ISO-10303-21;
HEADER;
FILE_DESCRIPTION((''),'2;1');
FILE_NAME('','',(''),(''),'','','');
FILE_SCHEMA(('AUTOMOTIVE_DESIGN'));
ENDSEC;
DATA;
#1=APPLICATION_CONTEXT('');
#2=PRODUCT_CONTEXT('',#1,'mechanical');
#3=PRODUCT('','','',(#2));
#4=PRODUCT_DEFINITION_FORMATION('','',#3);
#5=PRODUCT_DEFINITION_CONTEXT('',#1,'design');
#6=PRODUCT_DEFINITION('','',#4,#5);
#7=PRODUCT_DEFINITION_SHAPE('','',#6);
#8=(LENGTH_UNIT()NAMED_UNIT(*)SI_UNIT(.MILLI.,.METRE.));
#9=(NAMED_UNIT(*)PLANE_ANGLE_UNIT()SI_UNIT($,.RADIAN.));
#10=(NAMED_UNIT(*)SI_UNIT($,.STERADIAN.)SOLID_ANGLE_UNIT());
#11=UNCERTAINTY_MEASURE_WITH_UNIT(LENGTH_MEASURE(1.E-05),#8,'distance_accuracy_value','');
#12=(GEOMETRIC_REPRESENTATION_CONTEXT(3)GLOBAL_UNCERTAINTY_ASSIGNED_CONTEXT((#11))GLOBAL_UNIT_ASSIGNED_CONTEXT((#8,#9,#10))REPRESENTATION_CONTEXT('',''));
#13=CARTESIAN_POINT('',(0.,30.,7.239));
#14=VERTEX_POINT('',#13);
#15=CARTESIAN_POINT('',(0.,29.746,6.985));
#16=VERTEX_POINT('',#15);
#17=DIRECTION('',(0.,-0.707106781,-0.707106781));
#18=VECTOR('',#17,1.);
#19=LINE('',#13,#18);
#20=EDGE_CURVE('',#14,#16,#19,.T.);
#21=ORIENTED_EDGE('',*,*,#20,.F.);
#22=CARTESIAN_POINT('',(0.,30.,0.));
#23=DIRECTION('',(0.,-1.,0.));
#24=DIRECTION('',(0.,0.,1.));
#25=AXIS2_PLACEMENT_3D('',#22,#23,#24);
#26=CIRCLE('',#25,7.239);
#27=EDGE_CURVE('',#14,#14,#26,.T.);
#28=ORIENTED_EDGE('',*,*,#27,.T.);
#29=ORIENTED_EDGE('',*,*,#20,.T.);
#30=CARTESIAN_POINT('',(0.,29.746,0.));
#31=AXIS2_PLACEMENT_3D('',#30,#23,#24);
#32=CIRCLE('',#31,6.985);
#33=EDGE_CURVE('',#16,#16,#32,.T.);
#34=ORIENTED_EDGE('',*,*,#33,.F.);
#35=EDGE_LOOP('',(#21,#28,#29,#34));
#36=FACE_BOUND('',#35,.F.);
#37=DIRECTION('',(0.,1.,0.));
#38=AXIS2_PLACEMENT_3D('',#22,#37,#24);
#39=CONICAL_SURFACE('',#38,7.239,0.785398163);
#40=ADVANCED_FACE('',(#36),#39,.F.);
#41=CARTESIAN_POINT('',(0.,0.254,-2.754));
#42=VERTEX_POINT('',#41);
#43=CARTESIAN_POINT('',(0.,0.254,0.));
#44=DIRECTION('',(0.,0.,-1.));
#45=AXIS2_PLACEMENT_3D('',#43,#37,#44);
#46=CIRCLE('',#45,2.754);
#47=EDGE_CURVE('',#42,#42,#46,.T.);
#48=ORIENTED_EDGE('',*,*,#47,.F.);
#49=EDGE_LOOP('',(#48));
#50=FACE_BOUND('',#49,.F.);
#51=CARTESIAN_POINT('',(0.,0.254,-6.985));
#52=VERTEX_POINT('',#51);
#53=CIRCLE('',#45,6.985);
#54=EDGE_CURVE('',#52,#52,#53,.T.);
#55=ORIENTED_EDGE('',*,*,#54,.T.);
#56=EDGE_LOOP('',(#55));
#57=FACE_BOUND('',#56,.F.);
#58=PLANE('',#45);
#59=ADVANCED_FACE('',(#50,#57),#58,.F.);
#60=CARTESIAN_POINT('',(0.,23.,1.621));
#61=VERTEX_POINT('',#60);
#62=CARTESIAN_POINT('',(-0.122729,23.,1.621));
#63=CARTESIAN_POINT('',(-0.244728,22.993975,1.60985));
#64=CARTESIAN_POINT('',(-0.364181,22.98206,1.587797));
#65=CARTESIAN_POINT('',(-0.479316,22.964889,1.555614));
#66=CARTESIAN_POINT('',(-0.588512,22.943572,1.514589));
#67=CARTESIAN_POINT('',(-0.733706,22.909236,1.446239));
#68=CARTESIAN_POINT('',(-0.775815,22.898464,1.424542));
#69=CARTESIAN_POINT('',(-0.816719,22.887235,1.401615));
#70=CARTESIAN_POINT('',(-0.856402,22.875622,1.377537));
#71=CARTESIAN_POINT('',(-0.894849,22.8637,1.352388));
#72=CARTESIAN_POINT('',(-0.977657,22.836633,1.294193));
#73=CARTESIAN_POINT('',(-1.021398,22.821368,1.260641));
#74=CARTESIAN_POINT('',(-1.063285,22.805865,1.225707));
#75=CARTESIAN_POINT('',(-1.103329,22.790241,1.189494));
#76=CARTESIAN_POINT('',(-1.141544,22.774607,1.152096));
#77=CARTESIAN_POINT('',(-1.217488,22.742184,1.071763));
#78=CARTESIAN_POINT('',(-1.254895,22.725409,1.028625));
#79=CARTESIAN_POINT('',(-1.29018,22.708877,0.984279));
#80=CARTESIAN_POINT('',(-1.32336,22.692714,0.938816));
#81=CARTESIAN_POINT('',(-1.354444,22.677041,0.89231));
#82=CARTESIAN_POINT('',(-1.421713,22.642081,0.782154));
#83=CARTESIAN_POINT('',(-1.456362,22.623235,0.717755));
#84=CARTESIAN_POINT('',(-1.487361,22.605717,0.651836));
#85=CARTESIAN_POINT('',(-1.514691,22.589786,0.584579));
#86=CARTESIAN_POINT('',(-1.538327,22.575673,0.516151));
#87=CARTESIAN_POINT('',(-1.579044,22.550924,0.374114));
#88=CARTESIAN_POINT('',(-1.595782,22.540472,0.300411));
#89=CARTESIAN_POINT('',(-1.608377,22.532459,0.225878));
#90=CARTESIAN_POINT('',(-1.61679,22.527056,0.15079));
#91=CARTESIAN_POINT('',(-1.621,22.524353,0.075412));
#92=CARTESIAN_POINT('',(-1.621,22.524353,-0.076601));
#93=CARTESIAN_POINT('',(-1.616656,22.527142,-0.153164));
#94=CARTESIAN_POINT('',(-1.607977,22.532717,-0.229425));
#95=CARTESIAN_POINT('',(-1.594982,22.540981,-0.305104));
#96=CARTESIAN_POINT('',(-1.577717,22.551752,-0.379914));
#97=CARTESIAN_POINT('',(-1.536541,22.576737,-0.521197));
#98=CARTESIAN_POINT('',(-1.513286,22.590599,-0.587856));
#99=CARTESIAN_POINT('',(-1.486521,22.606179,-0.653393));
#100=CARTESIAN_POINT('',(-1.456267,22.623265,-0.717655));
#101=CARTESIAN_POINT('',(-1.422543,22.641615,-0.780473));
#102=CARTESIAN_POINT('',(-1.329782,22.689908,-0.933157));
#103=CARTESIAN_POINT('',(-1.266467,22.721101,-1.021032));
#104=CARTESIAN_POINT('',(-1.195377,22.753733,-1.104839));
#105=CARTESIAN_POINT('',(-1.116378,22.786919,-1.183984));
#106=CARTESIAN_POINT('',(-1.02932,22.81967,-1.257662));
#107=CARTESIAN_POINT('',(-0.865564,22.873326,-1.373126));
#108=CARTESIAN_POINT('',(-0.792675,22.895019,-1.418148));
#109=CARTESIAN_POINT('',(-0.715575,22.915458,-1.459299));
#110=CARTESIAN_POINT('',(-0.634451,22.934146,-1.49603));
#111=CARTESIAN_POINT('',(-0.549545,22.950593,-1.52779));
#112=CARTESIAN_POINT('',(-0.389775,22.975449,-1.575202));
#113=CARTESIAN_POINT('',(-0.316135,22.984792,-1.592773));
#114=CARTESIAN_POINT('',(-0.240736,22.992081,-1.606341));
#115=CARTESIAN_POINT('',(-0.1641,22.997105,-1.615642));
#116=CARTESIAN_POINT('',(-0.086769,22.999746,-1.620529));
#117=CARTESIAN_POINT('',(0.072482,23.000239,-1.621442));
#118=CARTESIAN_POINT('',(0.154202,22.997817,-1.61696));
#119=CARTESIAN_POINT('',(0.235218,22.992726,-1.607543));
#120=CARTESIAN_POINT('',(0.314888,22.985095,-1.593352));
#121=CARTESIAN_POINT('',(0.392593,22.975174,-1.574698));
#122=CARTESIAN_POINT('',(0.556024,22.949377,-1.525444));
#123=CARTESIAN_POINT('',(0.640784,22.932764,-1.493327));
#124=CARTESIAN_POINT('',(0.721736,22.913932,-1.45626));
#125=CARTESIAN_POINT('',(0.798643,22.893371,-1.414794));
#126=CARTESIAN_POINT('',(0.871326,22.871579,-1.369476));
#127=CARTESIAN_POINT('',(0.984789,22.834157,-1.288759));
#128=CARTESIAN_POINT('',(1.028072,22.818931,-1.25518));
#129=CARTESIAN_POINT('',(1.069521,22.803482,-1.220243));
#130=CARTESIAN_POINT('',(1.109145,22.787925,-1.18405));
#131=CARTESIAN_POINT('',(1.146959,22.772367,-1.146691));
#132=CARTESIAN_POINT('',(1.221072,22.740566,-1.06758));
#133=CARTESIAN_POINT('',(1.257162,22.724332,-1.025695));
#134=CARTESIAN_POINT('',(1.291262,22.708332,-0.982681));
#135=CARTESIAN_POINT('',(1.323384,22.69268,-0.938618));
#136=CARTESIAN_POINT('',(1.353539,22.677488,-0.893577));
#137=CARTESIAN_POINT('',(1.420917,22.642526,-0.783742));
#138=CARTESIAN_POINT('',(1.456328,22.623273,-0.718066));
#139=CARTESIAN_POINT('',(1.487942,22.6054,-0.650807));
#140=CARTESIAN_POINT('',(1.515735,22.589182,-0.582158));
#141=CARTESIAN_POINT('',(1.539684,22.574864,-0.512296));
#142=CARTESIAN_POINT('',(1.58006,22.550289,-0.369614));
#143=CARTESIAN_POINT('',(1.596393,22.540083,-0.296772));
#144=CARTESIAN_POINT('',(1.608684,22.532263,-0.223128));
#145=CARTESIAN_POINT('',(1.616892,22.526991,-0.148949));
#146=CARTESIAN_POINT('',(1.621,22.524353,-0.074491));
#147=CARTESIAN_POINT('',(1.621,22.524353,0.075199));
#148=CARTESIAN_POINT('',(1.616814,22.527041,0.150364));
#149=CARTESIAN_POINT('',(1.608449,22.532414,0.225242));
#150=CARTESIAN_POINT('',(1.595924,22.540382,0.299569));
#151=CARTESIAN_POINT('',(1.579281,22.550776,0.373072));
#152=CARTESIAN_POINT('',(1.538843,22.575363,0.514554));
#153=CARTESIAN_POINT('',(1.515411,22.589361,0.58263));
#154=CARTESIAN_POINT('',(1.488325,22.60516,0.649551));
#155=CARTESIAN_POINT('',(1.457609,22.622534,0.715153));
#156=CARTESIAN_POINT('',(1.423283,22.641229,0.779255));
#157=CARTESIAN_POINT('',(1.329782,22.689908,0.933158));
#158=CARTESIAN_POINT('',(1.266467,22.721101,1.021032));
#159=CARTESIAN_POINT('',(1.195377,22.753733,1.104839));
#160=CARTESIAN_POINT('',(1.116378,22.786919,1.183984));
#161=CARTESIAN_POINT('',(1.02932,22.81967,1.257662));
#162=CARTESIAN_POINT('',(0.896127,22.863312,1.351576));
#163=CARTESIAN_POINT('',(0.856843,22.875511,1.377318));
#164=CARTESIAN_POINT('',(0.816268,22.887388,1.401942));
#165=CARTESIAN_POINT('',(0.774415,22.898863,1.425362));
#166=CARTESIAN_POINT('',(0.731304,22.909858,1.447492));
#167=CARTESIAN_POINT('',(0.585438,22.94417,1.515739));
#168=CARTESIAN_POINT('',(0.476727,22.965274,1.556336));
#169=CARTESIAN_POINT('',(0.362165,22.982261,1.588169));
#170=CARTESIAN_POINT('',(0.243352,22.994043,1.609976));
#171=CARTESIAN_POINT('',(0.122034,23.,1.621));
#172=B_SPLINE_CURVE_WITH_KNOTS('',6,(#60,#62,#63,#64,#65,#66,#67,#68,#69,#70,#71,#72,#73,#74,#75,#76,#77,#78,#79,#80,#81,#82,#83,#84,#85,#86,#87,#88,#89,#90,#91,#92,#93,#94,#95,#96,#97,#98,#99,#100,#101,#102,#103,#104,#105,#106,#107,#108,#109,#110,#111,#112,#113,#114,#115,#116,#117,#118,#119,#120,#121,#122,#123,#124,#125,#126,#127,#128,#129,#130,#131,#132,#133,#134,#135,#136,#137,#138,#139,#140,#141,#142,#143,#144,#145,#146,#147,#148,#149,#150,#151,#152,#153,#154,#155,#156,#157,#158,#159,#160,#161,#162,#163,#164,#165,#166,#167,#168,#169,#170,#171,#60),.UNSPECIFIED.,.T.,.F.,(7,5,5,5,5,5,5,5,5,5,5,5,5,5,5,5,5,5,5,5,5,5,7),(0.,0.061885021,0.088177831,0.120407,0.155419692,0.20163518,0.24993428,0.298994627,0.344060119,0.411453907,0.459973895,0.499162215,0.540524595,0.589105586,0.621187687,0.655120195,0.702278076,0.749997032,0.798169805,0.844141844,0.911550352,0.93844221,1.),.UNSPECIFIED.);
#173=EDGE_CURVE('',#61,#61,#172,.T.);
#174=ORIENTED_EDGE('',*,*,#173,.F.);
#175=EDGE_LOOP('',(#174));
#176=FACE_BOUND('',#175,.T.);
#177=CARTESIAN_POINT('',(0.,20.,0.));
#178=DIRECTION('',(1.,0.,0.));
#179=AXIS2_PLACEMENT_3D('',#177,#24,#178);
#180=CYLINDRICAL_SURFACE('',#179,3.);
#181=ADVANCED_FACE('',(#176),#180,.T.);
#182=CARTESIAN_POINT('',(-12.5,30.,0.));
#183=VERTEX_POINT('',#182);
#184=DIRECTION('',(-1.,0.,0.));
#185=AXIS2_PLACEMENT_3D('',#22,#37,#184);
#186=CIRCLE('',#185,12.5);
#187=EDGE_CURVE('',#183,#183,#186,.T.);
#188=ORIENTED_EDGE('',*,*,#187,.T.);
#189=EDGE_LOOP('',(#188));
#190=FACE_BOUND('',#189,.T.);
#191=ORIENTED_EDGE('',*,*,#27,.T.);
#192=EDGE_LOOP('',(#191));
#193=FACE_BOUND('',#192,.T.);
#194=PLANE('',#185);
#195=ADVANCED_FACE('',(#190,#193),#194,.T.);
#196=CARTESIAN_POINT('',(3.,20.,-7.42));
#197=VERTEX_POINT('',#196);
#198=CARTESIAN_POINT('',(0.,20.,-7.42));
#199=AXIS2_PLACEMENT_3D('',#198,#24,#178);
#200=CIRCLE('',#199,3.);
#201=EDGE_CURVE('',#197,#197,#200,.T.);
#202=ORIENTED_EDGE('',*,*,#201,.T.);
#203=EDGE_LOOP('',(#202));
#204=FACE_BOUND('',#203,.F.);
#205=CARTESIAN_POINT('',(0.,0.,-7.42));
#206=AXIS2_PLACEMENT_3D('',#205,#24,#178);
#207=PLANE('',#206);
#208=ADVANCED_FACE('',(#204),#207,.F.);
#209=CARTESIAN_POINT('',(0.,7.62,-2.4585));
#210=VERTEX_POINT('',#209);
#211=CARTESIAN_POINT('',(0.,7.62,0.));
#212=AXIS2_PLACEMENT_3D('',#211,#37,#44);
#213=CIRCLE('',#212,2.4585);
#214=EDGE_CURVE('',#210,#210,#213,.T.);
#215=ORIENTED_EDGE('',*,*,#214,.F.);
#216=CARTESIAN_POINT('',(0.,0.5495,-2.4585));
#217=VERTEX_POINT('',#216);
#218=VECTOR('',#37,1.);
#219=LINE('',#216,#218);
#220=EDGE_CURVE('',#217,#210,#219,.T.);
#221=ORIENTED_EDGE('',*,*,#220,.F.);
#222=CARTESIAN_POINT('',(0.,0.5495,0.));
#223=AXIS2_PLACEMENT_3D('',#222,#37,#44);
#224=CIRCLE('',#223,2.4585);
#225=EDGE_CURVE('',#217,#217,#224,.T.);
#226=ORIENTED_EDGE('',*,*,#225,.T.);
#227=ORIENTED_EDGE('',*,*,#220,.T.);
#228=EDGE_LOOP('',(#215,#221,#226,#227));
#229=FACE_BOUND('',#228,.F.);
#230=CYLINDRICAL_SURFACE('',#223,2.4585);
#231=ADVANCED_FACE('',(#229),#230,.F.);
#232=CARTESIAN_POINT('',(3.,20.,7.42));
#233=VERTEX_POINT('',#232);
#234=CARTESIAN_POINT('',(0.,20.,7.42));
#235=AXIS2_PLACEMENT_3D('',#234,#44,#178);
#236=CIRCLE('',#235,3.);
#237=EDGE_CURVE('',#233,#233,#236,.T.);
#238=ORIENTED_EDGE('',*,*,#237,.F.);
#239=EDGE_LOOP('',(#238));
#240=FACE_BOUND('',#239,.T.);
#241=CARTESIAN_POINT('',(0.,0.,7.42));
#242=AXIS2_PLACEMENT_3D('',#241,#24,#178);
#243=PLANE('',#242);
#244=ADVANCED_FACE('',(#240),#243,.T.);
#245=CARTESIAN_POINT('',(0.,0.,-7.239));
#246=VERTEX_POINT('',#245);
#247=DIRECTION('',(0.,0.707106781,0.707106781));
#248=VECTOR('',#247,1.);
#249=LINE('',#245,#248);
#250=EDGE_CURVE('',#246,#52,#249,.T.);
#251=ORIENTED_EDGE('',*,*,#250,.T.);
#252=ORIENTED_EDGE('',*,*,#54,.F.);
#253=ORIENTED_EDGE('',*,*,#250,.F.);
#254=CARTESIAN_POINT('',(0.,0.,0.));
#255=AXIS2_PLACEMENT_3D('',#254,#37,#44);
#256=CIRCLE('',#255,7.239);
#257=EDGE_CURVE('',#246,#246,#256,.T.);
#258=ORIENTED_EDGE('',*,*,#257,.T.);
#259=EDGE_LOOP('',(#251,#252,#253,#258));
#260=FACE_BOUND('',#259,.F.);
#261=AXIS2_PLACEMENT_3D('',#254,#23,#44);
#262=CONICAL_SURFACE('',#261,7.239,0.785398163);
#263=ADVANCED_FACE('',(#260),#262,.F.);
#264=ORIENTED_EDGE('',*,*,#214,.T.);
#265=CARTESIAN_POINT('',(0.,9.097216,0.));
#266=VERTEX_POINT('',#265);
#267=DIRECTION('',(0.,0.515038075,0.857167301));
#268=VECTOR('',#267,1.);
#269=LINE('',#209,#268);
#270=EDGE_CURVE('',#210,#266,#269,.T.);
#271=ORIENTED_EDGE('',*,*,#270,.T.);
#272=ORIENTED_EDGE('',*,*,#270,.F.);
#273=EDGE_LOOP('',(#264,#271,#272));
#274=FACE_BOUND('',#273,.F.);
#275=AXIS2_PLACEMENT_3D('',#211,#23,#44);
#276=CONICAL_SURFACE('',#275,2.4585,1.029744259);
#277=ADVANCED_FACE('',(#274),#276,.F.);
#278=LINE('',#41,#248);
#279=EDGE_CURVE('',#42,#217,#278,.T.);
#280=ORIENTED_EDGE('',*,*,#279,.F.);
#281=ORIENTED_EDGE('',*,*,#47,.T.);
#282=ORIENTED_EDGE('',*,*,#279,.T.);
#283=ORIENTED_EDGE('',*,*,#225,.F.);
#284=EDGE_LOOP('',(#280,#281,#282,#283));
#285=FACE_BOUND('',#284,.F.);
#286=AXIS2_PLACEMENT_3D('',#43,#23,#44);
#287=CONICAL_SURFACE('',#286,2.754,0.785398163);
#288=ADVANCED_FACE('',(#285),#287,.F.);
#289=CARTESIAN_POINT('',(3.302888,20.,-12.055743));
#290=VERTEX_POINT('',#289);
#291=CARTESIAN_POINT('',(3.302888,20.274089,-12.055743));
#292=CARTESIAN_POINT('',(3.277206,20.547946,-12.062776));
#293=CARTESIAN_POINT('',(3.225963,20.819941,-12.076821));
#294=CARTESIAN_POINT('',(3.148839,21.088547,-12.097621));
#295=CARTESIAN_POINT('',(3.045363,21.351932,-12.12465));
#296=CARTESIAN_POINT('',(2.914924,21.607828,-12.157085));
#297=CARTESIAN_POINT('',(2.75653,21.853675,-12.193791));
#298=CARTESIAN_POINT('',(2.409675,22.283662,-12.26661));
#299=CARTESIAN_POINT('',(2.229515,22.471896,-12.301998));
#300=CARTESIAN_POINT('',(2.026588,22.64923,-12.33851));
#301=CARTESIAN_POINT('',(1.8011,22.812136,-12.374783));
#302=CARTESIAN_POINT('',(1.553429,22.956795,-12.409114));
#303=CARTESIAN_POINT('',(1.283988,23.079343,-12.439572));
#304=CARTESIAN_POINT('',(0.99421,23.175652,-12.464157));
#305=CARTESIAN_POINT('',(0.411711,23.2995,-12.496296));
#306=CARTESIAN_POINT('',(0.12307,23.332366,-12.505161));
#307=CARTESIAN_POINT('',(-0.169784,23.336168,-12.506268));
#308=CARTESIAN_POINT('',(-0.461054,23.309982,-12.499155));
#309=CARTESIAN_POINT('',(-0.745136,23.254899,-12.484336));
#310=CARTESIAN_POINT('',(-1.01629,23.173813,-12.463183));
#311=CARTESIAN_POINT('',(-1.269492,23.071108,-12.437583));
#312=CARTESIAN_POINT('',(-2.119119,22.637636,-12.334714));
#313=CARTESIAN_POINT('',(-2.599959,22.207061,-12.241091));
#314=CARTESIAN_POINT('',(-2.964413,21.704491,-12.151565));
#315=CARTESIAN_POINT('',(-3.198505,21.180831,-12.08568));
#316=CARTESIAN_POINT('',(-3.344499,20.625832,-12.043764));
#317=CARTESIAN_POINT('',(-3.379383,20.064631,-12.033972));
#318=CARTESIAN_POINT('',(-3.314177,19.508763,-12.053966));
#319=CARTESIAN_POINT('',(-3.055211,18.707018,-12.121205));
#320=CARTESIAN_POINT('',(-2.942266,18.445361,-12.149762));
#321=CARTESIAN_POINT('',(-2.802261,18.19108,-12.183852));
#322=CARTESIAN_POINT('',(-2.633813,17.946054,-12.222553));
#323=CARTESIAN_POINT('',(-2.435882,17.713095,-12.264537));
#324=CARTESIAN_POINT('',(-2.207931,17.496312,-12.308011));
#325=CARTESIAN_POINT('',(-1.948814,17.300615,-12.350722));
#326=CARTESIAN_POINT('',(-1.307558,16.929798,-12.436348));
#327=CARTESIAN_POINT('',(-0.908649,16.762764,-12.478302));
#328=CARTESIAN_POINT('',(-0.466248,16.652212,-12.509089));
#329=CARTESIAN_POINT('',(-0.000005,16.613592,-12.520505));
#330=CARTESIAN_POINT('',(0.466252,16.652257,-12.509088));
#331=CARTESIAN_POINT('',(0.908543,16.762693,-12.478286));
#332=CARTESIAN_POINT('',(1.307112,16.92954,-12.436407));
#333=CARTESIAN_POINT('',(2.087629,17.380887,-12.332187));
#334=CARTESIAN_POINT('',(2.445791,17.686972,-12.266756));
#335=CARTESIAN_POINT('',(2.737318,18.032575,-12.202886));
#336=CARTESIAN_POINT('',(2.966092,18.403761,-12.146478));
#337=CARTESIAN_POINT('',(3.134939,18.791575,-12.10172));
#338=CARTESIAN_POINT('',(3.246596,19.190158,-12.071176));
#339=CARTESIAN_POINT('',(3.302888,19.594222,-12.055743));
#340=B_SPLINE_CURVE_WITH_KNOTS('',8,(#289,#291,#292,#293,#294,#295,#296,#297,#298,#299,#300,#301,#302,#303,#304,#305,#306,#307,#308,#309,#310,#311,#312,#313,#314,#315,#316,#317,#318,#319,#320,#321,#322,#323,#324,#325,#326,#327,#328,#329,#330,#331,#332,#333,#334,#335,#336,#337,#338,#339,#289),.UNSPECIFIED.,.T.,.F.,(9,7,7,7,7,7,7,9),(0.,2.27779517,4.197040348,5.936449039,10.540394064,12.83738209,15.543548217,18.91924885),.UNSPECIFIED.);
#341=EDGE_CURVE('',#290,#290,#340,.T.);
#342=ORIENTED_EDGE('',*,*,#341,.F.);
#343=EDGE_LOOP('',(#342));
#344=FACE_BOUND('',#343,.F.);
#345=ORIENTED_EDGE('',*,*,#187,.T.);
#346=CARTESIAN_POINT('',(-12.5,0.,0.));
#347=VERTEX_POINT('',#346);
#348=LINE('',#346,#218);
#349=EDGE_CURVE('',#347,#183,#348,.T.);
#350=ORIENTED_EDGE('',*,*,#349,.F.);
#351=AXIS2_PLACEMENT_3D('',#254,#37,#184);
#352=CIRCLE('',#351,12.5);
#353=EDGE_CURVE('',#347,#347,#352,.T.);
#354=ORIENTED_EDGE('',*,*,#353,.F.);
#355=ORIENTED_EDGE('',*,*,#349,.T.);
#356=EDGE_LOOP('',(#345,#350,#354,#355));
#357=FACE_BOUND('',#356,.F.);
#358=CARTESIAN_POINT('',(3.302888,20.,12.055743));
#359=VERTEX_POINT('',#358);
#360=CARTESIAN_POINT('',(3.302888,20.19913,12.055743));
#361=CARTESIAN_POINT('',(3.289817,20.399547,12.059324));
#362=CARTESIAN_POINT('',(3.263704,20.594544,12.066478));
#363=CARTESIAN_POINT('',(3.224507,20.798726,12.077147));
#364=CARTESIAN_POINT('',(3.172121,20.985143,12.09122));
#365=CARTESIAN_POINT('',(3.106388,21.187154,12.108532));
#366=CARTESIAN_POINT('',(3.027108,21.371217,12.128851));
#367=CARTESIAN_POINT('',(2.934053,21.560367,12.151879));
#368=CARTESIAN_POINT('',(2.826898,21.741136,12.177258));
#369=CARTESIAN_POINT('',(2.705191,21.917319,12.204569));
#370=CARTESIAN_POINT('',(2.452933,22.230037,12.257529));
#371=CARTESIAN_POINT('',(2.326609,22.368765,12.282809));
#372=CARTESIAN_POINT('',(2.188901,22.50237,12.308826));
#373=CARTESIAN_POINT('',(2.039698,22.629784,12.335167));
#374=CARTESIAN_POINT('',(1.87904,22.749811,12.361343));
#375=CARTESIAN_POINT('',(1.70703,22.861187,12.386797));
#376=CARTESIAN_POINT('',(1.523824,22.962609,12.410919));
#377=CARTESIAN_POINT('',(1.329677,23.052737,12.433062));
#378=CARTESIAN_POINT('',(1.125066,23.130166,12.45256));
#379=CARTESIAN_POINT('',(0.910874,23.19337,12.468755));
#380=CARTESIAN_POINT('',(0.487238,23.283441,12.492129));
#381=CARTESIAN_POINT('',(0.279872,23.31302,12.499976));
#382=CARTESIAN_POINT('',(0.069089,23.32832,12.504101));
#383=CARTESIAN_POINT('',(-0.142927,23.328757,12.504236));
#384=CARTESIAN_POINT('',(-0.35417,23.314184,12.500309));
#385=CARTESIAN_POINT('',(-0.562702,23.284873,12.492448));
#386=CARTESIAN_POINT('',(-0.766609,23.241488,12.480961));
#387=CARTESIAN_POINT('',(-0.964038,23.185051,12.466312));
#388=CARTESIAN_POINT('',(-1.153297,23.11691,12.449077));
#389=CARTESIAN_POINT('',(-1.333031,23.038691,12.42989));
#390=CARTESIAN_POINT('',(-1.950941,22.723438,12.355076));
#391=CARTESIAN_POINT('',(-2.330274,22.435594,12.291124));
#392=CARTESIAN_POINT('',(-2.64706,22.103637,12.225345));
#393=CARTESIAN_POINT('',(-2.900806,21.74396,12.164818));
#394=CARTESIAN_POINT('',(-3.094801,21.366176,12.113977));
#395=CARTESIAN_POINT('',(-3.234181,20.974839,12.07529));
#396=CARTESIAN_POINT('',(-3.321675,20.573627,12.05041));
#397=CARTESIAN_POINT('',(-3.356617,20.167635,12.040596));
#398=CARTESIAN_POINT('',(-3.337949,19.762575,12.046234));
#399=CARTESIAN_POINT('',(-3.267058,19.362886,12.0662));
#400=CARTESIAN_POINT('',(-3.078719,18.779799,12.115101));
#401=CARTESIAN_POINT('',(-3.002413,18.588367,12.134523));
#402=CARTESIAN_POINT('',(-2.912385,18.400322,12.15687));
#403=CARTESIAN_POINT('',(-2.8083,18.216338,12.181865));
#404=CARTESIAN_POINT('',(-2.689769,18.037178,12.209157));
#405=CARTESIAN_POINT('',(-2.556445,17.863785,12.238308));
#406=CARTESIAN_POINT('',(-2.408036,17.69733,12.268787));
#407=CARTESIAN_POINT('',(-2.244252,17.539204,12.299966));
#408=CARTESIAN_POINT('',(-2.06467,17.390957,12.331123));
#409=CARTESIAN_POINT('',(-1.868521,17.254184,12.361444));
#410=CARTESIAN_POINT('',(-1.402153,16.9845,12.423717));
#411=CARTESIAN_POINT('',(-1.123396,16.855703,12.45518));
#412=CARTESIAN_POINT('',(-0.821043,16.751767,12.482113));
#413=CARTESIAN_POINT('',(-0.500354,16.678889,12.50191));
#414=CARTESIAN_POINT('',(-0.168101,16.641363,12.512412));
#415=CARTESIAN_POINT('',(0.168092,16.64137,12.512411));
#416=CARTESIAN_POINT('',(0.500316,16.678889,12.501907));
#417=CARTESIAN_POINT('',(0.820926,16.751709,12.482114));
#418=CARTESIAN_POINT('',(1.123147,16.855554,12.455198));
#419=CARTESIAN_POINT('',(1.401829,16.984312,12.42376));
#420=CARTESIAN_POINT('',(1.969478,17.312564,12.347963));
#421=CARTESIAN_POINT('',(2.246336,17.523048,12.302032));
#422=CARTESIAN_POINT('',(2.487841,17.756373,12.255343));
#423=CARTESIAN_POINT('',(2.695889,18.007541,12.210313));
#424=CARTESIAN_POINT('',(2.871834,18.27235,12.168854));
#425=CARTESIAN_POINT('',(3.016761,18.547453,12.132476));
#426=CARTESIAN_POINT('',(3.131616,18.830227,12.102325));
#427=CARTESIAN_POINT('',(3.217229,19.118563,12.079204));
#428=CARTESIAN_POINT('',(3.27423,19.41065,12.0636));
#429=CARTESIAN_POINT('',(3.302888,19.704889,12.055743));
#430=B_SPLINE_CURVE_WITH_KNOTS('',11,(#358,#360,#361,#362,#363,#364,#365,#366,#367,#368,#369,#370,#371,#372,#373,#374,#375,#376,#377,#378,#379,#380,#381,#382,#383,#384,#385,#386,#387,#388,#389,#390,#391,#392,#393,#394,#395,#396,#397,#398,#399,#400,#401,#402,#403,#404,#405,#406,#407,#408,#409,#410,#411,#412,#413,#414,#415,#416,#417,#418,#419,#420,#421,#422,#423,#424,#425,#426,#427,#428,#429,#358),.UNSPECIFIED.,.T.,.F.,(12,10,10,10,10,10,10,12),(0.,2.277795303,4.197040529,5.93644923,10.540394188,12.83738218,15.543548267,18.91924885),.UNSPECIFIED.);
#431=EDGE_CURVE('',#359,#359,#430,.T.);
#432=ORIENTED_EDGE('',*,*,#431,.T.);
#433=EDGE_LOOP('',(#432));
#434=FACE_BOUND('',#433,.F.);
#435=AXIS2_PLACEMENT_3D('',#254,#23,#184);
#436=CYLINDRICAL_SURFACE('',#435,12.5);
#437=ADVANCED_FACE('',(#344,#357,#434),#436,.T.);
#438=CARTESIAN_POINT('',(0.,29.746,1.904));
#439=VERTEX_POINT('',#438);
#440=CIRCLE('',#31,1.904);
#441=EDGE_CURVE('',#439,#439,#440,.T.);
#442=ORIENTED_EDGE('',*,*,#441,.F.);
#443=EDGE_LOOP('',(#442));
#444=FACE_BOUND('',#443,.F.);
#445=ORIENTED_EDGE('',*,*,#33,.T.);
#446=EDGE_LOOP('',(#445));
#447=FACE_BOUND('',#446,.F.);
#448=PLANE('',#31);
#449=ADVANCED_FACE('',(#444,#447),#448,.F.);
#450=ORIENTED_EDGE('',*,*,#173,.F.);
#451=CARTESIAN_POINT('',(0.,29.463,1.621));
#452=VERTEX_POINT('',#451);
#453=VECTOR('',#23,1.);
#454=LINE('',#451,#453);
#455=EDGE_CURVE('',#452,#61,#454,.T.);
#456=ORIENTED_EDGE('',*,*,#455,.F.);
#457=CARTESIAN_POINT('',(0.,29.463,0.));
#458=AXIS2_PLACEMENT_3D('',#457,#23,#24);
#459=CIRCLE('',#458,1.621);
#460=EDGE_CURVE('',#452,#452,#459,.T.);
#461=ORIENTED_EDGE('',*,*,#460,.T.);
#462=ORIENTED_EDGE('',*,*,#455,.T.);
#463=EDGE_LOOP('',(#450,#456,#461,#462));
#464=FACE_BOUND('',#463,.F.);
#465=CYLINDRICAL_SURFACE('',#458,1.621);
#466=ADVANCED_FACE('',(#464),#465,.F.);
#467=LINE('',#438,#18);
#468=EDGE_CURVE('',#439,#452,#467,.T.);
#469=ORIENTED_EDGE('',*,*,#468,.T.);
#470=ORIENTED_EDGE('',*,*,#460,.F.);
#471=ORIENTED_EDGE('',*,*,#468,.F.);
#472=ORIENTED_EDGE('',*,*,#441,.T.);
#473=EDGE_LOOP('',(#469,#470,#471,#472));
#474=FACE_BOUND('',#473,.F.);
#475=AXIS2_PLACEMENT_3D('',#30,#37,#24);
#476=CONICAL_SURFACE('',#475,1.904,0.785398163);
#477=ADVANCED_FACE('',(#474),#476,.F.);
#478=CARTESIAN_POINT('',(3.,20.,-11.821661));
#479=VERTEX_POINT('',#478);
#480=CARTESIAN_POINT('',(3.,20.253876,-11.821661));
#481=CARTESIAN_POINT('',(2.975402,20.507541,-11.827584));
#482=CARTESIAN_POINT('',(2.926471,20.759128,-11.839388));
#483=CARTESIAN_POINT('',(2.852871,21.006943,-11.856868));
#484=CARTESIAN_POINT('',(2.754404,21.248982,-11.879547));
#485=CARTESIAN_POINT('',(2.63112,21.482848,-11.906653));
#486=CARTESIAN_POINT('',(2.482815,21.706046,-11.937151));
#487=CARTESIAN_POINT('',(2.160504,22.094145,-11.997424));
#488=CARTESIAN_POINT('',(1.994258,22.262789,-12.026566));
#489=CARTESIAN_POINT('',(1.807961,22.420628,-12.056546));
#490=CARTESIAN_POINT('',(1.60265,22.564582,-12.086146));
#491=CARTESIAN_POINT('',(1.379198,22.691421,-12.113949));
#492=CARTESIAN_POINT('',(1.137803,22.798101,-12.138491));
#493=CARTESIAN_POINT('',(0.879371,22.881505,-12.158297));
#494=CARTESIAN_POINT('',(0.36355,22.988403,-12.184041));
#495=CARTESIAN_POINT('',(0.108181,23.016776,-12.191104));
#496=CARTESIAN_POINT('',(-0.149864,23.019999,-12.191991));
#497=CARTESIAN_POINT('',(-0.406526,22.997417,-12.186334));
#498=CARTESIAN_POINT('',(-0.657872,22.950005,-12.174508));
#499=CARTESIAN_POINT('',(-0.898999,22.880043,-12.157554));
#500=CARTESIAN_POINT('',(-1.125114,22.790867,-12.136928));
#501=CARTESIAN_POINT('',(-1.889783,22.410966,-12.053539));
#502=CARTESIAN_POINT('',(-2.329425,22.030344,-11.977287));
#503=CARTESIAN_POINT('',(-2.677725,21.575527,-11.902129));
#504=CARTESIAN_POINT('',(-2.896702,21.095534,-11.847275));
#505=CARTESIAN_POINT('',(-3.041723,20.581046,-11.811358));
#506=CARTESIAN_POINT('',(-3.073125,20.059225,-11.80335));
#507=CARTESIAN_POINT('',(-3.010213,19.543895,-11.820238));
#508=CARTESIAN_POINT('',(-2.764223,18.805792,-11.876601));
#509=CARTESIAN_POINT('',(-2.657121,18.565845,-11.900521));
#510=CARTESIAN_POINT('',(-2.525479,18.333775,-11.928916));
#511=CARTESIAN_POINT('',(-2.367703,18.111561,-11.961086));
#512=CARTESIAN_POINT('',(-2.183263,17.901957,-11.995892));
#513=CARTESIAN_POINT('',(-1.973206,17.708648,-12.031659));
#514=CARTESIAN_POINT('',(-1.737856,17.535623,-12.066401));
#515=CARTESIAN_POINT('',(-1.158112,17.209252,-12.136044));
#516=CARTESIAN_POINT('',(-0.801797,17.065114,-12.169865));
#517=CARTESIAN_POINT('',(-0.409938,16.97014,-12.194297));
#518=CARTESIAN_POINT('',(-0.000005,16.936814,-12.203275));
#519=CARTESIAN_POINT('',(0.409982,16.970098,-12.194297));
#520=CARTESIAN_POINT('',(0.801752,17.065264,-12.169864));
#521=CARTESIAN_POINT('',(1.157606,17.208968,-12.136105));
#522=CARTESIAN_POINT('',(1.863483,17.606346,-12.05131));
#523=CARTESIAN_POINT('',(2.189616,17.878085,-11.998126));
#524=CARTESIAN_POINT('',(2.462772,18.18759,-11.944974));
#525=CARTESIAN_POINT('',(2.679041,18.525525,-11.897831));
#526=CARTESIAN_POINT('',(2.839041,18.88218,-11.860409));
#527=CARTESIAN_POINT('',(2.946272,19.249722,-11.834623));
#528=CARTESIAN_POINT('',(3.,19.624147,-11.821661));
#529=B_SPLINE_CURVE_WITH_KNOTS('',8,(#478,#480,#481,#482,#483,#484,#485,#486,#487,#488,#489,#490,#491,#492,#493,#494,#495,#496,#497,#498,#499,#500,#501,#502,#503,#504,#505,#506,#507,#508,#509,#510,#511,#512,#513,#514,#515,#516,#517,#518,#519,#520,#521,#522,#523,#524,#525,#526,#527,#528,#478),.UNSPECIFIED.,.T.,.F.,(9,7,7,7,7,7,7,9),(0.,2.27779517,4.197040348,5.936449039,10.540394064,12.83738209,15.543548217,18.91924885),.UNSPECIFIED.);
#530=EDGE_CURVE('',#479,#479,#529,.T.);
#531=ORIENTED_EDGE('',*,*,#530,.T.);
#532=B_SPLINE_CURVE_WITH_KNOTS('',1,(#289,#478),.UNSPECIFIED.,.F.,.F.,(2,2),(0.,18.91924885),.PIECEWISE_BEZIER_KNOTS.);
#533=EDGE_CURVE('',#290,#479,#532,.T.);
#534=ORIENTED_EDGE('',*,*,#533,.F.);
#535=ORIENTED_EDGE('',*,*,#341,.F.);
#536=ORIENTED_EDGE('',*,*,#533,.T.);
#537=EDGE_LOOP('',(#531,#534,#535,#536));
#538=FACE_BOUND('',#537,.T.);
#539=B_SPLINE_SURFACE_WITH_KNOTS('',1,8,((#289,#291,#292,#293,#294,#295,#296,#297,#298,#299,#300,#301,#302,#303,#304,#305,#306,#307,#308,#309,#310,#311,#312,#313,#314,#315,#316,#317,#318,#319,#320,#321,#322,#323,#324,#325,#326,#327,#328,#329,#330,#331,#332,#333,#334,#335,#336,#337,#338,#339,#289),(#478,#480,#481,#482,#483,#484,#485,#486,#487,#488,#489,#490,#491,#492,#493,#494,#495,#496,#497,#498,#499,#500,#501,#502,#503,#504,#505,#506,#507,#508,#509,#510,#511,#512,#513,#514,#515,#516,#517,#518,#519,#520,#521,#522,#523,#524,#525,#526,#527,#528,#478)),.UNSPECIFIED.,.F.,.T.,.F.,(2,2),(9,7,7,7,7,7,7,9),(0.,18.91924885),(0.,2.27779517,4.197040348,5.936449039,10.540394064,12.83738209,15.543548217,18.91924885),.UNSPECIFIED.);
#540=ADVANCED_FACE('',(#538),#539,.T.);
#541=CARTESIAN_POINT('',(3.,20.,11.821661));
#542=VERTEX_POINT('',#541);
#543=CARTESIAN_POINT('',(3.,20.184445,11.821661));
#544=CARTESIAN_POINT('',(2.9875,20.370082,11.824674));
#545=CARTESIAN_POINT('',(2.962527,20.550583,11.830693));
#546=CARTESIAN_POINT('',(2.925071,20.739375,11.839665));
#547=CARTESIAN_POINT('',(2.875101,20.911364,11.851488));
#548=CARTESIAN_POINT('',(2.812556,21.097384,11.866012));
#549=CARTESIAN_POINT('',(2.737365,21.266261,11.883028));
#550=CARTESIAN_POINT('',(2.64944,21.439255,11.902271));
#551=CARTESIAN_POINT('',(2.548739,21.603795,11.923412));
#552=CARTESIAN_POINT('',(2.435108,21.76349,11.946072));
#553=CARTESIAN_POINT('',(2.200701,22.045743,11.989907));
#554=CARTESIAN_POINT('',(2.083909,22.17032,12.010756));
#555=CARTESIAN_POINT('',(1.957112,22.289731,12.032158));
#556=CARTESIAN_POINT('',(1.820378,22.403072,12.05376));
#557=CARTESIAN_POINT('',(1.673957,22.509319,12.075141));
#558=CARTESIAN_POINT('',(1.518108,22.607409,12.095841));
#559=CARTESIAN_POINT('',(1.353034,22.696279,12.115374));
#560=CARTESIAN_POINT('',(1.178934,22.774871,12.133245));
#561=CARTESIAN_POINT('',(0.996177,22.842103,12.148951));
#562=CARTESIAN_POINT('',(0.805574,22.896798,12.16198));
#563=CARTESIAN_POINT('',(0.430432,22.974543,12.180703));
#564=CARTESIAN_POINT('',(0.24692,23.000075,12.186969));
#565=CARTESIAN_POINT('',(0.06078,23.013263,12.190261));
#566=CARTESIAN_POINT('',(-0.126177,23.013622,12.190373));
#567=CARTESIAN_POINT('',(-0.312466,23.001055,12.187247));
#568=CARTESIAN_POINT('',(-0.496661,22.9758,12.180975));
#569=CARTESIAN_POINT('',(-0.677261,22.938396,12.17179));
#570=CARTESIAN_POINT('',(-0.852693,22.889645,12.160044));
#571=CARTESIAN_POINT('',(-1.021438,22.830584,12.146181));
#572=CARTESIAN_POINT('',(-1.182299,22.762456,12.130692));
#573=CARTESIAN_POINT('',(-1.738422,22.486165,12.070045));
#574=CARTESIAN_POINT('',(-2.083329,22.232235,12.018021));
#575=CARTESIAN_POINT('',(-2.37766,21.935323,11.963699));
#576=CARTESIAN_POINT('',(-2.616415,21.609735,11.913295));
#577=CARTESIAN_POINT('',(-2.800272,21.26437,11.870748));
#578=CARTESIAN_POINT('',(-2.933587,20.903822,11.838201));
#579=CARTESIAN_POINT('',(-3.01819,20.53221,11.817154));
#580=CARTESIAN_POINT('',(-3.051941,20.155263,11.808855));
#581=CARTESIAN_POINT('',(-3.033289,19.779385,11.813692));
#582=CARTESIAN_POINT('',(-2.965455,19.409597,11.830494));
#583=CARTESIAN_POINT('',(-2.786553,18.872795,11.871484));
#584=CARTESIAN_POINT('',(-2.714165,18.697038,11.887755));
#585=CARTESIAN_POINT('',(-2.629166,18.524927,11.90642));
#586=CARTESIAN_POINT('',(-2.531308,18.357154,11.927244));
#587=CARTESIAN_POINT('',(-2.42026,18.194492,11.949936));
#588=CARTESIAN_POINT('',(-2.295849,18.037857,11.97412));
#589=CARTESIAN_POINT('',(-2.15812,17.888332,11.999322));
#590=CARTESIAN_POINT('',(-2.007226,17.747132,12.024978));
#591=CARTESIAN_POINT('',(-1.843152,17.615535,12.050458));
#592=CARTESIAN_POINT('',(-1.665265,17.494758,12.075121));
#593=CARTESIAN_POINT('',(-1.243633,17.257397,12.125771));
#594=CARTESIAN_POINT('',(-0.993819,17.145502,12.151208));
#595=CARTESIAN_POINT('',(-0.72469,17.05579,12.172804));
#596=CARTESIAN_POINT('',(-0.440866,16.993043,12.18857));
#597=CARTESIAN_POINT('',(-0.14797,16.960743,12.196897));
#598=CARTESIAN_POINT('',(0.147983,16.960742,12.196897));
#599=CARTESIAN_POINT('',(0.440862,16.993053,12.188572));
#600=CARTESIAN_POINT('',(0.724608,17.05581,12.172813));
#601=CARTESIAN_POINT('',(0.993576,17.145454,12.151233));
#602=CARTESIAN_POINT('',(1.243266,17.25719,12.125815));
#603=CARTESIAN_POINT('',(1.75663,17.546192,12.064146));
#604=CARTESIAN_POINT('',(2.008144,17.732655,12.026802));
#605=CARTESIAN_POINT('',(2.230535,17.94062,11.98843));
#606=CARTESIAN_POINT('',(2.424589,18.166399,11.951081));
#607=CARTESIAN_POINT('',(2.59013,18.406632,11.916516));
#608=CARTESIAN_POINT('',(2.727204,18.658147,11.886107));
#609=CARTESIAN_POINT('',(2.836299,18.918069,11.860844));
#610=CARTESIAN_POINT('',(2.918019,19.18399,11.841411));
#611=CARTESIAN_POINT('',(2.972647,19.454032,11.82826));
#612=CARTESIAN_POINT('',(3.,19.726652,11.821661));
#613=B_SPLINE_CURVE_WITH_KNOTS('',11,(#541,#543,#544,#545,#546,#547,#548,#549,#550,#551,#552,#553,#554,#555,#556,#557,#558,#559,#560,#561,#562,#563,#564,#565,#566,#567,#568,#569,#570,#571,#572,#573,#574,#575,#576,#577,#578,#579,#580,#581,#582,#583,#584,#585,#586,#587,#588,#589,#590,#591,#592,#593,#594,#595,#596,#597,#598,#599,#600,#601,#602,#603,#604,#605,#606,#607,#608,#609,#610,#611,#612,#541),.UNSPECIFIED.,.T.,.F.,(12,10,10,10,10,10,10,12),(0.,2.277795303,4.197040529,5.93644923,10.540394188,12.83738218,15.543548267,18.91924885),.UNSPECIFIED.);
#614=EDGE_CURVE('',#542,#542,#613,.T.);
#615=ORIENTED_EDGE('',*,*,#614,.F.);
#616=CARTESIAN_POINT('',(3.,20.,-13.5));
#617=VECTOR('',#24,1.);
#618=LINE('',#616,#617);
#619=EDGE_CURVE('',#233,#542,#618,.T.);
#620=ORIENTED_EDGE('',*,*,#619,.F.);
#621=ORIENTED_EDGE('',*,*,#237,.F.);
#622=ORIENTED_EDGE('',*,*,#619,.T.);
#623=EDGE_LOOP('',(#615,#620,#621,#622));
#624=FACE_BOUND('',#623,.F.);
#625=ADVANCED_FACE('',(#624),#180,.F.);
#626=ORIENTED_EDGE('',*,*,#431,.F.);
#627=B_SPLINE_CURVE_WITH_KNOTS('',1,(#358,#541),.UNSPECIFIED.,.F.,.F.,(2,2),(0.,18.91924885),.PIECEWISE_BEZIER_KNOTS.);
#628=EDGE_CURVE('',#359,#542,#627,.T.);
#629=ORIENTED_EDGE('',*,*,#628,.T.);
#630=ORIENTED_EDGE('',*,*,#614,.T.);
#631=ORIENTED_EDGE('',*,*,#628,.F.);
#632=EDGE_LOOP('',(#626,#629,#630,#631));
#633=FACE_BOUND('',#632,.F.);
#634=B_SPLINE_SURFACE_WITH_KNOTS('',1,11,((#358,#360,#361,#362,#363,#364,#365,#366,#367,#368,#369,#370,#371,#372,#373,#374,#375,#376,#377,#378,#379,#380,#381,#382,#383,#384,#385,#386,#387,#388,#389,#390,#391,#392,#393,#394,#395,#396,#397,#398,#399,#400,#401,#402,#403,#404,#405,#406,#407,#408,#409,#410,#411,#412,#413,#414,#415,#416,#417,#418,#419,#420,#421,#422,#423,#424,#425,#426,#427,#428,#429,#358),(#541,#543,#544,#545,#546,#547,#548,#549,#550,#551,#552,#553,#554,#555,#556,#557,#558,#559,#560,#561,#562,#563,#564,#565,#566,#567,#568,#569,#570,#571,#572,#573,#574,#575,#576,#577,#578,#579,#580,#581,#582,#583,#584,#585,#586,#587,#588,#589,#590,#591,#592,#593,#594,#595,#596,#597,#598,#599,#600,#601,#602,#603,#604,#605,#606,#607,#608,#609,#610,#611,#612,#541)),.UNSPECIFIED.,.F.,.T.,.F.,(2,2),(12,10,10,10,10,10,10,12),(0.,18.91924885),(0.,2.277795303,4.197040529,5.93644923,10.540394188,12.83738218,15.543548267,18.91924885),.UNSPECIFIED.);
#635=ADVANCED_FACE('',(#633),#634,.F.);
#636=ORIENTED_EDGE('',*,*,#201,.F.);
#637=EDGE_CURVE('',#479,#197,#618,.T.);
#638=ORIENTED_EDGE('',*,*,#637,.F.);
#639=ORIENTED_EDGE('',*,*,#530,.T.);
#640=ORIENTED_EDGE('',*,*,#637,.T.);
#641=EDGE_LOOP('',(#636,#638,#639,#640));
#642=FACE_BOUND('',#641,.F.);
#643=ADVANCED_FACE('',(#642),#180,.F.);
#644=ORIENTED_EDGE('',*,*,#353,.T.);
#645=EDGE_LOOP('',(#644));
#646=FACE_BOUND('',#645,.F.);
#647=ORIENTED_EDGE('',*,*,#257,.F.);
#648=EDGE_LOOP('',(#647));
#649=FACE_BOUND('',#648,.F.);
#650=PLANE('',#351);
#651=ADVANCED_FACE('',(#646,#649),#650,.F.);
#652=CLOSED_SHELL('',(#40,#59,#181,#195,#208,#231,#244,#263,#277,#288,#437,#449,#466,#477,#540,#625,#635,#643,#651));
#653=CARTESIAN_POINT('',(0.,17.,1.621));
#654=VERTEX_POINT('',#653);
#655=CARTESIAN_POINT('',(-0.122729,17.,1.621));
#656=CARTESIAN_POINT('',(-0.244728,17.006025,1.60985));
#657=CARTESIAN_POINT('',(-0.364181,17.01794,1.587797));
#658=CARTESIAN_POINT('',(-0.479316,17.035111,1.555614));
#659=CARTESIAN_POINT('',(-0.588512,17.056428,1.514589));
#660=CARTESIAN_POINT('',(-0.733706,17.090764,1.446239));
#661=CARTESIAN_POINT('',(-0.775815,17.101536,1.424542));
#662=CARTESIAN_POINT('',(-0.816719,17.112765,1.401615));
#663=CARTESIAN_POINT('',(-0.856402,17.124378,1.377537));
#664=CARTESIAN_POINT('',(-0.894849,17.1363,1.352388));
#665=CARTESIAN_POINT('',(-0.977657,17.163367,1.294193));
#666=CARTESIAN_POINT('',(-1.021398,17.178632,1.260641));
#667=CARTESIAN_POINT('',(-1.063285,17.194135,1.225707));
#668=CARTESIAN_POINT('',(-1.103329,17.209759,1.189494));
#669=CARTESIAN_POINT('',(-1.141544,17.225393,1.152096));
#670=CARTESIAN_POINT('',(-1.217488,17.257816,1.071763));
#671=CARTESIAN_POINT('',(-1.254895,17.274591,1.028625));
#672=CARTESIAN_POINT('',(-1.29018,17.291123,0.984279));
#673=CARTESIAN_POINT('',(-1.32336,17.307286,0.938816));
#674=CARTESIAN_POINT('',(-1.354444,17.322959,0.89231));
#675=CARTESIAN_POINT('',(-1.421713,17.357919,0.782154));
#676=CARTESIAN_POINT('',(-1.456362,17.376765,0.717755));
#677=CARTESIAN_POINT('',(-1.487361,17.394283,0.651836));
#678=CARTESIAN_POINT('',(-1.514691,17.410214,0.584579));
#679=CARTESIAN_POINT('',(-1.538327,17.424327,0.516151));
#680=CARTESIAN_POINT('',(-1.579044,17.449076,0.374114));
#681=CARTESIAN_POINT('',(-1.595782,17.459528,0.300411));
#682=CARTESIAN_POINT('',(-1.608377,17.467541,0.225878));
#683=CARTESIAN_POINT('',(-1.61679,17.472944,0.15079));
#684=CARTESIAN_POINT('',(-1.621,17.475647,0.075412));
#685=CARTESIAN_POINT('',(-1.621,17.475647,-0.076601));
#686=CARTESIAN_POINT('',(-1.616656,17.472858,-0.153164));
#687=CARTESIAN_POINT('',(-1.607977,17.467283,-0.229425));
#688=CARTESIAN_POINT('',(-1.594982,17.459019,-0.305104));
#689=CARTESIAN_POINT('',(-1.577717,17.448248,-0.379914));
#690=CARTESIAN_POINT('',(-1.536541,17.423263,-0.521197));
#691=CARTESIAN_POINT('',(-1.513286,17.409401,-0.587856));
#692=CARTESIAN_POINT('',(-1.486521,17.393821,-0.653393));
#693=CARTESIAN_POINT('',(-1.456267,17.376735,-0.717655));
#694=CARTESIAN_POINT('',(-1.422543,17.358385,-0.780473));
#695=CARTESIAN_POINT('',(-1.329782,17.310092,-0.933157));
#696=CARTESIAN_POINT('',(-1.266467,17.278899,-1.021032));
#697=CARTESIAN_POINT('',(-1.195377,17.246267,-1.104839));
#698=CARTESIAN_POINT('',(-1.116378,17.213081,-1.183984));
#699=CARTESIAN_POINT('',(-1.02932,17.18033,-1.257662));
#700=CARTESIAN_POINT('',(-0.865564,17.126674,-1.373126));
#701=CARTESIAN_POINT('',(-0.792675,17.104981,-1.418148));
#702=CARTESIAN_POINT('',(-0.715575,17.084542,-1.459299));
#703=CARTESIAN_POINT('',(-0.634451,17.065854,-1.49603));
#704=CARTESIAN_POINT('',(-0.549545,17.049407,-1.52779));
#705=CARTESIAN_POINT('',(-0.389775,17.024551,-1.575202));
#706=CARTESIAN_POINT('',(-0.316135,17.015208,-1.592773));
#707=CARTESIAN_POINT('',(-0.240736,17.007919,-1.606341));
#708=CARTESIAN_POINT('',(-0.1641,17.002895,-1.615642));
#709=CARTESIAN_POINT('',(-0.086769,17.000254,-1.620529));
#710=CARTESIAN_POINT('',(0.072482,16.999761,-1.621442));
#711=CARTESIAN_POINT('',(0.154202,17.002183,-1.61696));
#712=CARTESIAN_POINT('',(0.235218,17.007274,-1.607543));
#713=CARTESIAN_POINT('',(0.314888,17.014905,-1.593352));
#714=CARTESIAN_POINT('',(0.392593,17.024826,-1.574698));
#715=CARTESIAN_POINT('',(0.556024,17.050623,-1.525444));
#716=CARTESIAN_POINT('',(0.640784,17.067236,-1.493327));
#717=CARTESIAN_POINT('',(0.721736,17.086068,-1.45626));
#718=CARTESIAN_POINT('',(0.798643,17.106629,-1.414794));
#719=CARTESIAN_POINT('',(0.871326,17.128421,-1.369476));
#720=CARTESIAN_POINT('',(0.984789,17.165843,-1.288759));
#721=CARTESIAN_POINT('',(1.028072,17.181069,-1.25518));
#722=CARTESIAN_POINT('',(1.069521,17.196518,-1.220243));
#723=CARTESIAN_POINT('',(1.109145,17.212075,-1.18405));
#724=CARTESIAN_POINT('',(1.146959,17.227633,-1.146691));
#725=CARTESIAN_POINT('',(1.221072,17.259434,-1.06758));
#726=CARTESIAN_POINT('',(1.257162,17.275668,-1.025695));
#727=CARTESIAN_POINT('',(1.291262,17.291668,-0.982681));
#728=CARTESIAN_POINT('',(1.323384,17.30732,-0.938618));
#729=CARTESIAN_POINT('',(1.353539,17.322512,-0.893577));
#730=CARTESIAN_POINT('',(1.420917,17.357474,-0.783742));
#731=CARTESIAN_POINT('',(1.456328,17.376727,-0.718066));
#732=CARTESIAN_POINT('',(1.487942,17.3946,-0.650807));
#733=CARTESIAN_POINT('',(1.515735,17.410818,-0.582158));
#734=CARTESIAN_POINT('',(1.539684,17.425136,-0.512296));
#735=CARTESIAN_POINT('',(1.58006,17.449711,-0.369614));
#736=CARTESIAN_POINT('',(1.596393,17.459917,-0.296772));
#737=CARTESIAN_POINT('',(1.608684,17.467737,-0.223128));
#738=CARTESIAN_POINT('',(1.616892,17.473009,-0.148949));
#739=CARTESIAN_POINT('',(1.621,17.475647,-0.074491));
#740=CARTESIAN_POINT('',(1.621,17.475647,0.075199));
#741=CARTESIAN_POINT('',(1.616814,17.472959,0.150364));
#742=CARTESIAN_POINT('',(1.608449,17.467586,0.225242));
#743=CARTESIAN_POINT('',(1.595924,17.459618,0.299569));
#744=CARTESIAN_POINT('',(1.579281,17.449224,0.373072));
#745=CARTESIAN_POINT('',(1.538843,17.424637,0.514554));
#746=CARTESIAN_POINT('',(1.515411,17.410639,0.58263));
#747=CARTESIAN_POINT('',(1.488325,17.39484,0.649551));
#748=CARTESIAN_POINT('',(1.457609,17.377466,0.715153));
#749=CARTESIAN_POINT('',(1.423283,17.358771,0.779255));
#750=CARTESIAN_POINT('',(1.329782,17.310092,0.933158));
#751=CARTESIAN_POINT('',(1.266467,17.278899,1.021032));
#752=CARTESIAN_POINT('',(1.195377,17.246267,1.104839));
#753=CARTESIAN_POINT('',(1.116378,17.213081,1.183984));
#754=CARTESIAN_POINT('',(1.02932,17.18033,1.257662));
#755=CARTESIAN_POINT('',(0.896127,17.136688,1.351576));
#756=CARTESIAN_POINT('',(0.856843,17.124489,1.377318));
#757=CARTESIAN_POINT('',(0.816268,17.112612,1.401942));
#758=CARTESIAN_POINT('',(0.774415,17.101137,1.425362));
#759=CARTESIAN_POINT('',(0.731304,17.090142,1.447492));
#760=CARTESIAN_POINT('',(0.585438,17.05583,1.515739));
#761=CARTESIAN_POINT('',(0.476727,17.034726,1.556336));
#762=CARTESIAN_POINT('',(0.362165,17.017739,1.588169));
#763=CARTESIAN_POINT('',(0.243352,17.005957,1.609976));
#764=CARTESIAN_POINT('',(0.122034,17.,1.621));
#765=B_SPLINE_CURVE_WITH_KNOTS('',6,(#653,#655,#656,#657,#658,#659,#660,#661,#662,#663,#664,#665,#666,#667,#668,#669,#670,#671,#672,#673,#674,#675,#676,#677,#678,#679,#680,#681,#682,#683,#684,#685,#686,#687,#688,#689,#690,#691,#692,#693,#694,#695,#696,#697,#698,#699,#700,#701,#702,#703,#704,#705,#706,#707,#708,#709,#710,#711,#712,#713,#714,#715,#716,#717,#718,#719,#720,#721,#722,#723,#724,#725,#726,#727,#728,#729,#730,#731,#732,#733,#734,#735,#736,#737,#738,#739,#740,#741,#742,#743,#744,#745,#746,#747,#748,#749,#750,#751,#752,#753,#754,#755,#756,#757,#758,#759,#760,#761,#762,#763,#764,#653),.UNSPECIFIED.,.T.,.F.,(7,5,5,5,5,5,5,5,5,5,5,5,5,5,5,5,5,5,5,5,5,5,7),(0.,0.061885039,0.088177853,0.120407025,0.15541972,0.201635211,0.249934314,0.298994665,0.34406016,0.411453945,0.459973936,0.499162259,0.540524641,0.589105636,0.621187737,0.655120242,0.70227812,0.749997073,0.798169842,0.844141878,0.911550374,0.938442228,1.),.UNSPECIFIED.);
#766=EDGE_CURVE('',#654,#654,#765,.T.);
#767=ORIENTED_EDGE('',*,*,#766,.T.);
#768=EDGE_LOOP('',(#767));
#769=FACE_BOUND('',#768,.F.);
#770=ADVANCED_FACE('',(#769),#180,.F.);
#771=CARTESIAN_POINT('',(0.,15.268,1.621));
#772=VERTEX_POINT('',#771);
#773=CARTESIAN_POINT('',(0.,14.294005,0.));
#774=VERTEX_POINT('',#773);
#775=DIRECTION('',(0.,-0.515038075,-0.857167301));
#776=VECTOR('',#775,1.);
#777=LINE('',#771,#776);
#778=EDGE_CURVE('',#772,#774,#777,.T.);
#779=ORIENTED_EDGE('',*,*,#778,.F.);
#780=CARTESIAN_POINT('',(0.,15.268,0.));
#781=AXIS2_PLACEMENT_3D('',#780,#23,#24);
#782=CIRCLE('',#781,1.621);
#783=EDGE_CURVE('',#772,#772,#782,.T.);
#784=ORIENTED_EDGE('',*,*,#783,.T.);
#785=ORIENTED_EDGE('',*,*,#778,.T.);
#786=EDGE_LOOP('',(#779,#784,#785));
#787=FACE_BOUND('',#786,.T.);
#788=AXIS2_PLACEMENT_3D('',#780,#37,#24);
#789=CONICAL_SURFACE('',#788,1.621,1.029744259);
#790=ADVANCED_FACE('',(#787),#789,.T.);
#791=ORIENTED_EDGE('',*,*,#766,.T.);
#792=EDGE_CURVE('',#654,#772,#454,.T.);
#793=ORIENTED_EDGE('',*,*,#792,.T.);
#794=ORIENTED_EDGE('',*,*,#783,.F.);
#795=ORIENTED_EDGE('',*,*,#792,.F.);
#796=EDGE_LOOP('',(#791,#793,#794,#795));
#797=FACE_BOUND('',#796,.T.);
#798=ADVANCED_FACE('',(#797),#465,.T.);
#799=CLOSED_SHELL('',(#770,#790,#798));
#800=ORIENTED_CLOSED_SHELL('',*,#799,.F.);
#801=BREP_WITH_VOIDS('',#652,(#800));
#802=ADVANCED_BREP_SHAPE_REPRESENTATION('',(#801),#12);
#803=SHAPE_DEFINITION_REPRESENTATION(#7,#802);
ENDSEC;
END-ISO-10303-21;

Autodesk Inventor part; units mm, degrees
ref_plane "YZ Plane" through (0, 0, 0) normal (1, 0, 0) x (0, 1, 0)
ref_plane "XZ Plane" through (0, 0, 0) normal (0, 1, 0) x (-1, 0, 0)
ref_plane "XY Plane" through (0, 0, 0) normal (0, 0, 1) x (1, 0, 0)
sketch "Sketch1" plane through (0, 0, 0) normal (0, 1, 0) x (-1, 0, 0)
  circle A0 centre (0, 0) radius 12.5
  dimension "d0" = 25
extrude "Extrusion1" add sketch "Sketch1" along normal blind 30
hole "ReliefTop" at (0, 30, 0) direction (0, -1, 0) diameter 13.97 depth 0.254 countersink diameter 14.478 countersink angle 90
hole "ReliefBottom" at (0, 0, 0) direction (0, 1, 0) diameter 13.97 depth 0.254 countersink diameter 14.478 countersink angle 90
hole "MountBottomM6" at (0, 0.254, 0) direction (0, 1, 0) diameter 4.917 depth 7.366 tip angle 118 countersink diameter 5.508 countersink angle 90 thread size "M6x1" class "6H" standard "ISO Metric profile"
hole "MountTopM4" at (0, 29.746, 0) direction (0, -1, 0) diameter 3.242 depth 14.478 tip angle 118 countersink diameter 3.808 countersink angle 90 thread size "M4x0.7" class "6H" standard "ISO Metric profile"
sketch "Sketch2" plane through (0, 0, 0) normal (0, 0, 1) x (1, 0, 0)
  circle A0 centre (0, 20) radius 3
  line L0 (-12.5, 0) -> (12.5, 0) projected
  line L1 (0, -4.6) -> (0, 27.6) projected
  point P0 (0, 0)
  dimension "d49" = 6
  dimension "d50" = 20
extrude "Extrusion2" cut sketch "Sketch2" along normal through all both and the other way through all
chamfer "Chamfer1" distance 0.313 angle 45 2 edges at (-3, 19.9998, 12.1347) (-3, 19.9998, -12.1347)
extrude "Extrusion3" add sketch "Sketch2" along normal mid plane 14.84
equation "\"d1\" = height"
equation "\"d5\" = reliefMinor"
equation "\"d7\" = reliefMajor"
equation "\"d10\" = reliefDepth"
equation "\"d14\" = reliefMinor"
equation "\"d16\" = reliefMajor"
equation "\"d19\" = reliefDepth"
equation "\"d25\" = chamferM6"
equation "\"d28\" = depthM6"
equation "\"d40\" = chamferM4"
equation "\"d43\" = depthM4"
equation "\"reliefDepth\" = 0.254"
equation "\"reliefMinor\" = 13.97"
equation "\"reliefMajor\" = 14.478"
equation "\"chamferM6\" = 5.508"
equation "\"chamferM4\" = 3.808"
equation "\"depthM6\" = 7.366"
equation "\"depthM4\" = 14.478"
equation "\"height\" = 30"
properties part number "PLS-P642H0300A00_M" material "Stainless Steel"
